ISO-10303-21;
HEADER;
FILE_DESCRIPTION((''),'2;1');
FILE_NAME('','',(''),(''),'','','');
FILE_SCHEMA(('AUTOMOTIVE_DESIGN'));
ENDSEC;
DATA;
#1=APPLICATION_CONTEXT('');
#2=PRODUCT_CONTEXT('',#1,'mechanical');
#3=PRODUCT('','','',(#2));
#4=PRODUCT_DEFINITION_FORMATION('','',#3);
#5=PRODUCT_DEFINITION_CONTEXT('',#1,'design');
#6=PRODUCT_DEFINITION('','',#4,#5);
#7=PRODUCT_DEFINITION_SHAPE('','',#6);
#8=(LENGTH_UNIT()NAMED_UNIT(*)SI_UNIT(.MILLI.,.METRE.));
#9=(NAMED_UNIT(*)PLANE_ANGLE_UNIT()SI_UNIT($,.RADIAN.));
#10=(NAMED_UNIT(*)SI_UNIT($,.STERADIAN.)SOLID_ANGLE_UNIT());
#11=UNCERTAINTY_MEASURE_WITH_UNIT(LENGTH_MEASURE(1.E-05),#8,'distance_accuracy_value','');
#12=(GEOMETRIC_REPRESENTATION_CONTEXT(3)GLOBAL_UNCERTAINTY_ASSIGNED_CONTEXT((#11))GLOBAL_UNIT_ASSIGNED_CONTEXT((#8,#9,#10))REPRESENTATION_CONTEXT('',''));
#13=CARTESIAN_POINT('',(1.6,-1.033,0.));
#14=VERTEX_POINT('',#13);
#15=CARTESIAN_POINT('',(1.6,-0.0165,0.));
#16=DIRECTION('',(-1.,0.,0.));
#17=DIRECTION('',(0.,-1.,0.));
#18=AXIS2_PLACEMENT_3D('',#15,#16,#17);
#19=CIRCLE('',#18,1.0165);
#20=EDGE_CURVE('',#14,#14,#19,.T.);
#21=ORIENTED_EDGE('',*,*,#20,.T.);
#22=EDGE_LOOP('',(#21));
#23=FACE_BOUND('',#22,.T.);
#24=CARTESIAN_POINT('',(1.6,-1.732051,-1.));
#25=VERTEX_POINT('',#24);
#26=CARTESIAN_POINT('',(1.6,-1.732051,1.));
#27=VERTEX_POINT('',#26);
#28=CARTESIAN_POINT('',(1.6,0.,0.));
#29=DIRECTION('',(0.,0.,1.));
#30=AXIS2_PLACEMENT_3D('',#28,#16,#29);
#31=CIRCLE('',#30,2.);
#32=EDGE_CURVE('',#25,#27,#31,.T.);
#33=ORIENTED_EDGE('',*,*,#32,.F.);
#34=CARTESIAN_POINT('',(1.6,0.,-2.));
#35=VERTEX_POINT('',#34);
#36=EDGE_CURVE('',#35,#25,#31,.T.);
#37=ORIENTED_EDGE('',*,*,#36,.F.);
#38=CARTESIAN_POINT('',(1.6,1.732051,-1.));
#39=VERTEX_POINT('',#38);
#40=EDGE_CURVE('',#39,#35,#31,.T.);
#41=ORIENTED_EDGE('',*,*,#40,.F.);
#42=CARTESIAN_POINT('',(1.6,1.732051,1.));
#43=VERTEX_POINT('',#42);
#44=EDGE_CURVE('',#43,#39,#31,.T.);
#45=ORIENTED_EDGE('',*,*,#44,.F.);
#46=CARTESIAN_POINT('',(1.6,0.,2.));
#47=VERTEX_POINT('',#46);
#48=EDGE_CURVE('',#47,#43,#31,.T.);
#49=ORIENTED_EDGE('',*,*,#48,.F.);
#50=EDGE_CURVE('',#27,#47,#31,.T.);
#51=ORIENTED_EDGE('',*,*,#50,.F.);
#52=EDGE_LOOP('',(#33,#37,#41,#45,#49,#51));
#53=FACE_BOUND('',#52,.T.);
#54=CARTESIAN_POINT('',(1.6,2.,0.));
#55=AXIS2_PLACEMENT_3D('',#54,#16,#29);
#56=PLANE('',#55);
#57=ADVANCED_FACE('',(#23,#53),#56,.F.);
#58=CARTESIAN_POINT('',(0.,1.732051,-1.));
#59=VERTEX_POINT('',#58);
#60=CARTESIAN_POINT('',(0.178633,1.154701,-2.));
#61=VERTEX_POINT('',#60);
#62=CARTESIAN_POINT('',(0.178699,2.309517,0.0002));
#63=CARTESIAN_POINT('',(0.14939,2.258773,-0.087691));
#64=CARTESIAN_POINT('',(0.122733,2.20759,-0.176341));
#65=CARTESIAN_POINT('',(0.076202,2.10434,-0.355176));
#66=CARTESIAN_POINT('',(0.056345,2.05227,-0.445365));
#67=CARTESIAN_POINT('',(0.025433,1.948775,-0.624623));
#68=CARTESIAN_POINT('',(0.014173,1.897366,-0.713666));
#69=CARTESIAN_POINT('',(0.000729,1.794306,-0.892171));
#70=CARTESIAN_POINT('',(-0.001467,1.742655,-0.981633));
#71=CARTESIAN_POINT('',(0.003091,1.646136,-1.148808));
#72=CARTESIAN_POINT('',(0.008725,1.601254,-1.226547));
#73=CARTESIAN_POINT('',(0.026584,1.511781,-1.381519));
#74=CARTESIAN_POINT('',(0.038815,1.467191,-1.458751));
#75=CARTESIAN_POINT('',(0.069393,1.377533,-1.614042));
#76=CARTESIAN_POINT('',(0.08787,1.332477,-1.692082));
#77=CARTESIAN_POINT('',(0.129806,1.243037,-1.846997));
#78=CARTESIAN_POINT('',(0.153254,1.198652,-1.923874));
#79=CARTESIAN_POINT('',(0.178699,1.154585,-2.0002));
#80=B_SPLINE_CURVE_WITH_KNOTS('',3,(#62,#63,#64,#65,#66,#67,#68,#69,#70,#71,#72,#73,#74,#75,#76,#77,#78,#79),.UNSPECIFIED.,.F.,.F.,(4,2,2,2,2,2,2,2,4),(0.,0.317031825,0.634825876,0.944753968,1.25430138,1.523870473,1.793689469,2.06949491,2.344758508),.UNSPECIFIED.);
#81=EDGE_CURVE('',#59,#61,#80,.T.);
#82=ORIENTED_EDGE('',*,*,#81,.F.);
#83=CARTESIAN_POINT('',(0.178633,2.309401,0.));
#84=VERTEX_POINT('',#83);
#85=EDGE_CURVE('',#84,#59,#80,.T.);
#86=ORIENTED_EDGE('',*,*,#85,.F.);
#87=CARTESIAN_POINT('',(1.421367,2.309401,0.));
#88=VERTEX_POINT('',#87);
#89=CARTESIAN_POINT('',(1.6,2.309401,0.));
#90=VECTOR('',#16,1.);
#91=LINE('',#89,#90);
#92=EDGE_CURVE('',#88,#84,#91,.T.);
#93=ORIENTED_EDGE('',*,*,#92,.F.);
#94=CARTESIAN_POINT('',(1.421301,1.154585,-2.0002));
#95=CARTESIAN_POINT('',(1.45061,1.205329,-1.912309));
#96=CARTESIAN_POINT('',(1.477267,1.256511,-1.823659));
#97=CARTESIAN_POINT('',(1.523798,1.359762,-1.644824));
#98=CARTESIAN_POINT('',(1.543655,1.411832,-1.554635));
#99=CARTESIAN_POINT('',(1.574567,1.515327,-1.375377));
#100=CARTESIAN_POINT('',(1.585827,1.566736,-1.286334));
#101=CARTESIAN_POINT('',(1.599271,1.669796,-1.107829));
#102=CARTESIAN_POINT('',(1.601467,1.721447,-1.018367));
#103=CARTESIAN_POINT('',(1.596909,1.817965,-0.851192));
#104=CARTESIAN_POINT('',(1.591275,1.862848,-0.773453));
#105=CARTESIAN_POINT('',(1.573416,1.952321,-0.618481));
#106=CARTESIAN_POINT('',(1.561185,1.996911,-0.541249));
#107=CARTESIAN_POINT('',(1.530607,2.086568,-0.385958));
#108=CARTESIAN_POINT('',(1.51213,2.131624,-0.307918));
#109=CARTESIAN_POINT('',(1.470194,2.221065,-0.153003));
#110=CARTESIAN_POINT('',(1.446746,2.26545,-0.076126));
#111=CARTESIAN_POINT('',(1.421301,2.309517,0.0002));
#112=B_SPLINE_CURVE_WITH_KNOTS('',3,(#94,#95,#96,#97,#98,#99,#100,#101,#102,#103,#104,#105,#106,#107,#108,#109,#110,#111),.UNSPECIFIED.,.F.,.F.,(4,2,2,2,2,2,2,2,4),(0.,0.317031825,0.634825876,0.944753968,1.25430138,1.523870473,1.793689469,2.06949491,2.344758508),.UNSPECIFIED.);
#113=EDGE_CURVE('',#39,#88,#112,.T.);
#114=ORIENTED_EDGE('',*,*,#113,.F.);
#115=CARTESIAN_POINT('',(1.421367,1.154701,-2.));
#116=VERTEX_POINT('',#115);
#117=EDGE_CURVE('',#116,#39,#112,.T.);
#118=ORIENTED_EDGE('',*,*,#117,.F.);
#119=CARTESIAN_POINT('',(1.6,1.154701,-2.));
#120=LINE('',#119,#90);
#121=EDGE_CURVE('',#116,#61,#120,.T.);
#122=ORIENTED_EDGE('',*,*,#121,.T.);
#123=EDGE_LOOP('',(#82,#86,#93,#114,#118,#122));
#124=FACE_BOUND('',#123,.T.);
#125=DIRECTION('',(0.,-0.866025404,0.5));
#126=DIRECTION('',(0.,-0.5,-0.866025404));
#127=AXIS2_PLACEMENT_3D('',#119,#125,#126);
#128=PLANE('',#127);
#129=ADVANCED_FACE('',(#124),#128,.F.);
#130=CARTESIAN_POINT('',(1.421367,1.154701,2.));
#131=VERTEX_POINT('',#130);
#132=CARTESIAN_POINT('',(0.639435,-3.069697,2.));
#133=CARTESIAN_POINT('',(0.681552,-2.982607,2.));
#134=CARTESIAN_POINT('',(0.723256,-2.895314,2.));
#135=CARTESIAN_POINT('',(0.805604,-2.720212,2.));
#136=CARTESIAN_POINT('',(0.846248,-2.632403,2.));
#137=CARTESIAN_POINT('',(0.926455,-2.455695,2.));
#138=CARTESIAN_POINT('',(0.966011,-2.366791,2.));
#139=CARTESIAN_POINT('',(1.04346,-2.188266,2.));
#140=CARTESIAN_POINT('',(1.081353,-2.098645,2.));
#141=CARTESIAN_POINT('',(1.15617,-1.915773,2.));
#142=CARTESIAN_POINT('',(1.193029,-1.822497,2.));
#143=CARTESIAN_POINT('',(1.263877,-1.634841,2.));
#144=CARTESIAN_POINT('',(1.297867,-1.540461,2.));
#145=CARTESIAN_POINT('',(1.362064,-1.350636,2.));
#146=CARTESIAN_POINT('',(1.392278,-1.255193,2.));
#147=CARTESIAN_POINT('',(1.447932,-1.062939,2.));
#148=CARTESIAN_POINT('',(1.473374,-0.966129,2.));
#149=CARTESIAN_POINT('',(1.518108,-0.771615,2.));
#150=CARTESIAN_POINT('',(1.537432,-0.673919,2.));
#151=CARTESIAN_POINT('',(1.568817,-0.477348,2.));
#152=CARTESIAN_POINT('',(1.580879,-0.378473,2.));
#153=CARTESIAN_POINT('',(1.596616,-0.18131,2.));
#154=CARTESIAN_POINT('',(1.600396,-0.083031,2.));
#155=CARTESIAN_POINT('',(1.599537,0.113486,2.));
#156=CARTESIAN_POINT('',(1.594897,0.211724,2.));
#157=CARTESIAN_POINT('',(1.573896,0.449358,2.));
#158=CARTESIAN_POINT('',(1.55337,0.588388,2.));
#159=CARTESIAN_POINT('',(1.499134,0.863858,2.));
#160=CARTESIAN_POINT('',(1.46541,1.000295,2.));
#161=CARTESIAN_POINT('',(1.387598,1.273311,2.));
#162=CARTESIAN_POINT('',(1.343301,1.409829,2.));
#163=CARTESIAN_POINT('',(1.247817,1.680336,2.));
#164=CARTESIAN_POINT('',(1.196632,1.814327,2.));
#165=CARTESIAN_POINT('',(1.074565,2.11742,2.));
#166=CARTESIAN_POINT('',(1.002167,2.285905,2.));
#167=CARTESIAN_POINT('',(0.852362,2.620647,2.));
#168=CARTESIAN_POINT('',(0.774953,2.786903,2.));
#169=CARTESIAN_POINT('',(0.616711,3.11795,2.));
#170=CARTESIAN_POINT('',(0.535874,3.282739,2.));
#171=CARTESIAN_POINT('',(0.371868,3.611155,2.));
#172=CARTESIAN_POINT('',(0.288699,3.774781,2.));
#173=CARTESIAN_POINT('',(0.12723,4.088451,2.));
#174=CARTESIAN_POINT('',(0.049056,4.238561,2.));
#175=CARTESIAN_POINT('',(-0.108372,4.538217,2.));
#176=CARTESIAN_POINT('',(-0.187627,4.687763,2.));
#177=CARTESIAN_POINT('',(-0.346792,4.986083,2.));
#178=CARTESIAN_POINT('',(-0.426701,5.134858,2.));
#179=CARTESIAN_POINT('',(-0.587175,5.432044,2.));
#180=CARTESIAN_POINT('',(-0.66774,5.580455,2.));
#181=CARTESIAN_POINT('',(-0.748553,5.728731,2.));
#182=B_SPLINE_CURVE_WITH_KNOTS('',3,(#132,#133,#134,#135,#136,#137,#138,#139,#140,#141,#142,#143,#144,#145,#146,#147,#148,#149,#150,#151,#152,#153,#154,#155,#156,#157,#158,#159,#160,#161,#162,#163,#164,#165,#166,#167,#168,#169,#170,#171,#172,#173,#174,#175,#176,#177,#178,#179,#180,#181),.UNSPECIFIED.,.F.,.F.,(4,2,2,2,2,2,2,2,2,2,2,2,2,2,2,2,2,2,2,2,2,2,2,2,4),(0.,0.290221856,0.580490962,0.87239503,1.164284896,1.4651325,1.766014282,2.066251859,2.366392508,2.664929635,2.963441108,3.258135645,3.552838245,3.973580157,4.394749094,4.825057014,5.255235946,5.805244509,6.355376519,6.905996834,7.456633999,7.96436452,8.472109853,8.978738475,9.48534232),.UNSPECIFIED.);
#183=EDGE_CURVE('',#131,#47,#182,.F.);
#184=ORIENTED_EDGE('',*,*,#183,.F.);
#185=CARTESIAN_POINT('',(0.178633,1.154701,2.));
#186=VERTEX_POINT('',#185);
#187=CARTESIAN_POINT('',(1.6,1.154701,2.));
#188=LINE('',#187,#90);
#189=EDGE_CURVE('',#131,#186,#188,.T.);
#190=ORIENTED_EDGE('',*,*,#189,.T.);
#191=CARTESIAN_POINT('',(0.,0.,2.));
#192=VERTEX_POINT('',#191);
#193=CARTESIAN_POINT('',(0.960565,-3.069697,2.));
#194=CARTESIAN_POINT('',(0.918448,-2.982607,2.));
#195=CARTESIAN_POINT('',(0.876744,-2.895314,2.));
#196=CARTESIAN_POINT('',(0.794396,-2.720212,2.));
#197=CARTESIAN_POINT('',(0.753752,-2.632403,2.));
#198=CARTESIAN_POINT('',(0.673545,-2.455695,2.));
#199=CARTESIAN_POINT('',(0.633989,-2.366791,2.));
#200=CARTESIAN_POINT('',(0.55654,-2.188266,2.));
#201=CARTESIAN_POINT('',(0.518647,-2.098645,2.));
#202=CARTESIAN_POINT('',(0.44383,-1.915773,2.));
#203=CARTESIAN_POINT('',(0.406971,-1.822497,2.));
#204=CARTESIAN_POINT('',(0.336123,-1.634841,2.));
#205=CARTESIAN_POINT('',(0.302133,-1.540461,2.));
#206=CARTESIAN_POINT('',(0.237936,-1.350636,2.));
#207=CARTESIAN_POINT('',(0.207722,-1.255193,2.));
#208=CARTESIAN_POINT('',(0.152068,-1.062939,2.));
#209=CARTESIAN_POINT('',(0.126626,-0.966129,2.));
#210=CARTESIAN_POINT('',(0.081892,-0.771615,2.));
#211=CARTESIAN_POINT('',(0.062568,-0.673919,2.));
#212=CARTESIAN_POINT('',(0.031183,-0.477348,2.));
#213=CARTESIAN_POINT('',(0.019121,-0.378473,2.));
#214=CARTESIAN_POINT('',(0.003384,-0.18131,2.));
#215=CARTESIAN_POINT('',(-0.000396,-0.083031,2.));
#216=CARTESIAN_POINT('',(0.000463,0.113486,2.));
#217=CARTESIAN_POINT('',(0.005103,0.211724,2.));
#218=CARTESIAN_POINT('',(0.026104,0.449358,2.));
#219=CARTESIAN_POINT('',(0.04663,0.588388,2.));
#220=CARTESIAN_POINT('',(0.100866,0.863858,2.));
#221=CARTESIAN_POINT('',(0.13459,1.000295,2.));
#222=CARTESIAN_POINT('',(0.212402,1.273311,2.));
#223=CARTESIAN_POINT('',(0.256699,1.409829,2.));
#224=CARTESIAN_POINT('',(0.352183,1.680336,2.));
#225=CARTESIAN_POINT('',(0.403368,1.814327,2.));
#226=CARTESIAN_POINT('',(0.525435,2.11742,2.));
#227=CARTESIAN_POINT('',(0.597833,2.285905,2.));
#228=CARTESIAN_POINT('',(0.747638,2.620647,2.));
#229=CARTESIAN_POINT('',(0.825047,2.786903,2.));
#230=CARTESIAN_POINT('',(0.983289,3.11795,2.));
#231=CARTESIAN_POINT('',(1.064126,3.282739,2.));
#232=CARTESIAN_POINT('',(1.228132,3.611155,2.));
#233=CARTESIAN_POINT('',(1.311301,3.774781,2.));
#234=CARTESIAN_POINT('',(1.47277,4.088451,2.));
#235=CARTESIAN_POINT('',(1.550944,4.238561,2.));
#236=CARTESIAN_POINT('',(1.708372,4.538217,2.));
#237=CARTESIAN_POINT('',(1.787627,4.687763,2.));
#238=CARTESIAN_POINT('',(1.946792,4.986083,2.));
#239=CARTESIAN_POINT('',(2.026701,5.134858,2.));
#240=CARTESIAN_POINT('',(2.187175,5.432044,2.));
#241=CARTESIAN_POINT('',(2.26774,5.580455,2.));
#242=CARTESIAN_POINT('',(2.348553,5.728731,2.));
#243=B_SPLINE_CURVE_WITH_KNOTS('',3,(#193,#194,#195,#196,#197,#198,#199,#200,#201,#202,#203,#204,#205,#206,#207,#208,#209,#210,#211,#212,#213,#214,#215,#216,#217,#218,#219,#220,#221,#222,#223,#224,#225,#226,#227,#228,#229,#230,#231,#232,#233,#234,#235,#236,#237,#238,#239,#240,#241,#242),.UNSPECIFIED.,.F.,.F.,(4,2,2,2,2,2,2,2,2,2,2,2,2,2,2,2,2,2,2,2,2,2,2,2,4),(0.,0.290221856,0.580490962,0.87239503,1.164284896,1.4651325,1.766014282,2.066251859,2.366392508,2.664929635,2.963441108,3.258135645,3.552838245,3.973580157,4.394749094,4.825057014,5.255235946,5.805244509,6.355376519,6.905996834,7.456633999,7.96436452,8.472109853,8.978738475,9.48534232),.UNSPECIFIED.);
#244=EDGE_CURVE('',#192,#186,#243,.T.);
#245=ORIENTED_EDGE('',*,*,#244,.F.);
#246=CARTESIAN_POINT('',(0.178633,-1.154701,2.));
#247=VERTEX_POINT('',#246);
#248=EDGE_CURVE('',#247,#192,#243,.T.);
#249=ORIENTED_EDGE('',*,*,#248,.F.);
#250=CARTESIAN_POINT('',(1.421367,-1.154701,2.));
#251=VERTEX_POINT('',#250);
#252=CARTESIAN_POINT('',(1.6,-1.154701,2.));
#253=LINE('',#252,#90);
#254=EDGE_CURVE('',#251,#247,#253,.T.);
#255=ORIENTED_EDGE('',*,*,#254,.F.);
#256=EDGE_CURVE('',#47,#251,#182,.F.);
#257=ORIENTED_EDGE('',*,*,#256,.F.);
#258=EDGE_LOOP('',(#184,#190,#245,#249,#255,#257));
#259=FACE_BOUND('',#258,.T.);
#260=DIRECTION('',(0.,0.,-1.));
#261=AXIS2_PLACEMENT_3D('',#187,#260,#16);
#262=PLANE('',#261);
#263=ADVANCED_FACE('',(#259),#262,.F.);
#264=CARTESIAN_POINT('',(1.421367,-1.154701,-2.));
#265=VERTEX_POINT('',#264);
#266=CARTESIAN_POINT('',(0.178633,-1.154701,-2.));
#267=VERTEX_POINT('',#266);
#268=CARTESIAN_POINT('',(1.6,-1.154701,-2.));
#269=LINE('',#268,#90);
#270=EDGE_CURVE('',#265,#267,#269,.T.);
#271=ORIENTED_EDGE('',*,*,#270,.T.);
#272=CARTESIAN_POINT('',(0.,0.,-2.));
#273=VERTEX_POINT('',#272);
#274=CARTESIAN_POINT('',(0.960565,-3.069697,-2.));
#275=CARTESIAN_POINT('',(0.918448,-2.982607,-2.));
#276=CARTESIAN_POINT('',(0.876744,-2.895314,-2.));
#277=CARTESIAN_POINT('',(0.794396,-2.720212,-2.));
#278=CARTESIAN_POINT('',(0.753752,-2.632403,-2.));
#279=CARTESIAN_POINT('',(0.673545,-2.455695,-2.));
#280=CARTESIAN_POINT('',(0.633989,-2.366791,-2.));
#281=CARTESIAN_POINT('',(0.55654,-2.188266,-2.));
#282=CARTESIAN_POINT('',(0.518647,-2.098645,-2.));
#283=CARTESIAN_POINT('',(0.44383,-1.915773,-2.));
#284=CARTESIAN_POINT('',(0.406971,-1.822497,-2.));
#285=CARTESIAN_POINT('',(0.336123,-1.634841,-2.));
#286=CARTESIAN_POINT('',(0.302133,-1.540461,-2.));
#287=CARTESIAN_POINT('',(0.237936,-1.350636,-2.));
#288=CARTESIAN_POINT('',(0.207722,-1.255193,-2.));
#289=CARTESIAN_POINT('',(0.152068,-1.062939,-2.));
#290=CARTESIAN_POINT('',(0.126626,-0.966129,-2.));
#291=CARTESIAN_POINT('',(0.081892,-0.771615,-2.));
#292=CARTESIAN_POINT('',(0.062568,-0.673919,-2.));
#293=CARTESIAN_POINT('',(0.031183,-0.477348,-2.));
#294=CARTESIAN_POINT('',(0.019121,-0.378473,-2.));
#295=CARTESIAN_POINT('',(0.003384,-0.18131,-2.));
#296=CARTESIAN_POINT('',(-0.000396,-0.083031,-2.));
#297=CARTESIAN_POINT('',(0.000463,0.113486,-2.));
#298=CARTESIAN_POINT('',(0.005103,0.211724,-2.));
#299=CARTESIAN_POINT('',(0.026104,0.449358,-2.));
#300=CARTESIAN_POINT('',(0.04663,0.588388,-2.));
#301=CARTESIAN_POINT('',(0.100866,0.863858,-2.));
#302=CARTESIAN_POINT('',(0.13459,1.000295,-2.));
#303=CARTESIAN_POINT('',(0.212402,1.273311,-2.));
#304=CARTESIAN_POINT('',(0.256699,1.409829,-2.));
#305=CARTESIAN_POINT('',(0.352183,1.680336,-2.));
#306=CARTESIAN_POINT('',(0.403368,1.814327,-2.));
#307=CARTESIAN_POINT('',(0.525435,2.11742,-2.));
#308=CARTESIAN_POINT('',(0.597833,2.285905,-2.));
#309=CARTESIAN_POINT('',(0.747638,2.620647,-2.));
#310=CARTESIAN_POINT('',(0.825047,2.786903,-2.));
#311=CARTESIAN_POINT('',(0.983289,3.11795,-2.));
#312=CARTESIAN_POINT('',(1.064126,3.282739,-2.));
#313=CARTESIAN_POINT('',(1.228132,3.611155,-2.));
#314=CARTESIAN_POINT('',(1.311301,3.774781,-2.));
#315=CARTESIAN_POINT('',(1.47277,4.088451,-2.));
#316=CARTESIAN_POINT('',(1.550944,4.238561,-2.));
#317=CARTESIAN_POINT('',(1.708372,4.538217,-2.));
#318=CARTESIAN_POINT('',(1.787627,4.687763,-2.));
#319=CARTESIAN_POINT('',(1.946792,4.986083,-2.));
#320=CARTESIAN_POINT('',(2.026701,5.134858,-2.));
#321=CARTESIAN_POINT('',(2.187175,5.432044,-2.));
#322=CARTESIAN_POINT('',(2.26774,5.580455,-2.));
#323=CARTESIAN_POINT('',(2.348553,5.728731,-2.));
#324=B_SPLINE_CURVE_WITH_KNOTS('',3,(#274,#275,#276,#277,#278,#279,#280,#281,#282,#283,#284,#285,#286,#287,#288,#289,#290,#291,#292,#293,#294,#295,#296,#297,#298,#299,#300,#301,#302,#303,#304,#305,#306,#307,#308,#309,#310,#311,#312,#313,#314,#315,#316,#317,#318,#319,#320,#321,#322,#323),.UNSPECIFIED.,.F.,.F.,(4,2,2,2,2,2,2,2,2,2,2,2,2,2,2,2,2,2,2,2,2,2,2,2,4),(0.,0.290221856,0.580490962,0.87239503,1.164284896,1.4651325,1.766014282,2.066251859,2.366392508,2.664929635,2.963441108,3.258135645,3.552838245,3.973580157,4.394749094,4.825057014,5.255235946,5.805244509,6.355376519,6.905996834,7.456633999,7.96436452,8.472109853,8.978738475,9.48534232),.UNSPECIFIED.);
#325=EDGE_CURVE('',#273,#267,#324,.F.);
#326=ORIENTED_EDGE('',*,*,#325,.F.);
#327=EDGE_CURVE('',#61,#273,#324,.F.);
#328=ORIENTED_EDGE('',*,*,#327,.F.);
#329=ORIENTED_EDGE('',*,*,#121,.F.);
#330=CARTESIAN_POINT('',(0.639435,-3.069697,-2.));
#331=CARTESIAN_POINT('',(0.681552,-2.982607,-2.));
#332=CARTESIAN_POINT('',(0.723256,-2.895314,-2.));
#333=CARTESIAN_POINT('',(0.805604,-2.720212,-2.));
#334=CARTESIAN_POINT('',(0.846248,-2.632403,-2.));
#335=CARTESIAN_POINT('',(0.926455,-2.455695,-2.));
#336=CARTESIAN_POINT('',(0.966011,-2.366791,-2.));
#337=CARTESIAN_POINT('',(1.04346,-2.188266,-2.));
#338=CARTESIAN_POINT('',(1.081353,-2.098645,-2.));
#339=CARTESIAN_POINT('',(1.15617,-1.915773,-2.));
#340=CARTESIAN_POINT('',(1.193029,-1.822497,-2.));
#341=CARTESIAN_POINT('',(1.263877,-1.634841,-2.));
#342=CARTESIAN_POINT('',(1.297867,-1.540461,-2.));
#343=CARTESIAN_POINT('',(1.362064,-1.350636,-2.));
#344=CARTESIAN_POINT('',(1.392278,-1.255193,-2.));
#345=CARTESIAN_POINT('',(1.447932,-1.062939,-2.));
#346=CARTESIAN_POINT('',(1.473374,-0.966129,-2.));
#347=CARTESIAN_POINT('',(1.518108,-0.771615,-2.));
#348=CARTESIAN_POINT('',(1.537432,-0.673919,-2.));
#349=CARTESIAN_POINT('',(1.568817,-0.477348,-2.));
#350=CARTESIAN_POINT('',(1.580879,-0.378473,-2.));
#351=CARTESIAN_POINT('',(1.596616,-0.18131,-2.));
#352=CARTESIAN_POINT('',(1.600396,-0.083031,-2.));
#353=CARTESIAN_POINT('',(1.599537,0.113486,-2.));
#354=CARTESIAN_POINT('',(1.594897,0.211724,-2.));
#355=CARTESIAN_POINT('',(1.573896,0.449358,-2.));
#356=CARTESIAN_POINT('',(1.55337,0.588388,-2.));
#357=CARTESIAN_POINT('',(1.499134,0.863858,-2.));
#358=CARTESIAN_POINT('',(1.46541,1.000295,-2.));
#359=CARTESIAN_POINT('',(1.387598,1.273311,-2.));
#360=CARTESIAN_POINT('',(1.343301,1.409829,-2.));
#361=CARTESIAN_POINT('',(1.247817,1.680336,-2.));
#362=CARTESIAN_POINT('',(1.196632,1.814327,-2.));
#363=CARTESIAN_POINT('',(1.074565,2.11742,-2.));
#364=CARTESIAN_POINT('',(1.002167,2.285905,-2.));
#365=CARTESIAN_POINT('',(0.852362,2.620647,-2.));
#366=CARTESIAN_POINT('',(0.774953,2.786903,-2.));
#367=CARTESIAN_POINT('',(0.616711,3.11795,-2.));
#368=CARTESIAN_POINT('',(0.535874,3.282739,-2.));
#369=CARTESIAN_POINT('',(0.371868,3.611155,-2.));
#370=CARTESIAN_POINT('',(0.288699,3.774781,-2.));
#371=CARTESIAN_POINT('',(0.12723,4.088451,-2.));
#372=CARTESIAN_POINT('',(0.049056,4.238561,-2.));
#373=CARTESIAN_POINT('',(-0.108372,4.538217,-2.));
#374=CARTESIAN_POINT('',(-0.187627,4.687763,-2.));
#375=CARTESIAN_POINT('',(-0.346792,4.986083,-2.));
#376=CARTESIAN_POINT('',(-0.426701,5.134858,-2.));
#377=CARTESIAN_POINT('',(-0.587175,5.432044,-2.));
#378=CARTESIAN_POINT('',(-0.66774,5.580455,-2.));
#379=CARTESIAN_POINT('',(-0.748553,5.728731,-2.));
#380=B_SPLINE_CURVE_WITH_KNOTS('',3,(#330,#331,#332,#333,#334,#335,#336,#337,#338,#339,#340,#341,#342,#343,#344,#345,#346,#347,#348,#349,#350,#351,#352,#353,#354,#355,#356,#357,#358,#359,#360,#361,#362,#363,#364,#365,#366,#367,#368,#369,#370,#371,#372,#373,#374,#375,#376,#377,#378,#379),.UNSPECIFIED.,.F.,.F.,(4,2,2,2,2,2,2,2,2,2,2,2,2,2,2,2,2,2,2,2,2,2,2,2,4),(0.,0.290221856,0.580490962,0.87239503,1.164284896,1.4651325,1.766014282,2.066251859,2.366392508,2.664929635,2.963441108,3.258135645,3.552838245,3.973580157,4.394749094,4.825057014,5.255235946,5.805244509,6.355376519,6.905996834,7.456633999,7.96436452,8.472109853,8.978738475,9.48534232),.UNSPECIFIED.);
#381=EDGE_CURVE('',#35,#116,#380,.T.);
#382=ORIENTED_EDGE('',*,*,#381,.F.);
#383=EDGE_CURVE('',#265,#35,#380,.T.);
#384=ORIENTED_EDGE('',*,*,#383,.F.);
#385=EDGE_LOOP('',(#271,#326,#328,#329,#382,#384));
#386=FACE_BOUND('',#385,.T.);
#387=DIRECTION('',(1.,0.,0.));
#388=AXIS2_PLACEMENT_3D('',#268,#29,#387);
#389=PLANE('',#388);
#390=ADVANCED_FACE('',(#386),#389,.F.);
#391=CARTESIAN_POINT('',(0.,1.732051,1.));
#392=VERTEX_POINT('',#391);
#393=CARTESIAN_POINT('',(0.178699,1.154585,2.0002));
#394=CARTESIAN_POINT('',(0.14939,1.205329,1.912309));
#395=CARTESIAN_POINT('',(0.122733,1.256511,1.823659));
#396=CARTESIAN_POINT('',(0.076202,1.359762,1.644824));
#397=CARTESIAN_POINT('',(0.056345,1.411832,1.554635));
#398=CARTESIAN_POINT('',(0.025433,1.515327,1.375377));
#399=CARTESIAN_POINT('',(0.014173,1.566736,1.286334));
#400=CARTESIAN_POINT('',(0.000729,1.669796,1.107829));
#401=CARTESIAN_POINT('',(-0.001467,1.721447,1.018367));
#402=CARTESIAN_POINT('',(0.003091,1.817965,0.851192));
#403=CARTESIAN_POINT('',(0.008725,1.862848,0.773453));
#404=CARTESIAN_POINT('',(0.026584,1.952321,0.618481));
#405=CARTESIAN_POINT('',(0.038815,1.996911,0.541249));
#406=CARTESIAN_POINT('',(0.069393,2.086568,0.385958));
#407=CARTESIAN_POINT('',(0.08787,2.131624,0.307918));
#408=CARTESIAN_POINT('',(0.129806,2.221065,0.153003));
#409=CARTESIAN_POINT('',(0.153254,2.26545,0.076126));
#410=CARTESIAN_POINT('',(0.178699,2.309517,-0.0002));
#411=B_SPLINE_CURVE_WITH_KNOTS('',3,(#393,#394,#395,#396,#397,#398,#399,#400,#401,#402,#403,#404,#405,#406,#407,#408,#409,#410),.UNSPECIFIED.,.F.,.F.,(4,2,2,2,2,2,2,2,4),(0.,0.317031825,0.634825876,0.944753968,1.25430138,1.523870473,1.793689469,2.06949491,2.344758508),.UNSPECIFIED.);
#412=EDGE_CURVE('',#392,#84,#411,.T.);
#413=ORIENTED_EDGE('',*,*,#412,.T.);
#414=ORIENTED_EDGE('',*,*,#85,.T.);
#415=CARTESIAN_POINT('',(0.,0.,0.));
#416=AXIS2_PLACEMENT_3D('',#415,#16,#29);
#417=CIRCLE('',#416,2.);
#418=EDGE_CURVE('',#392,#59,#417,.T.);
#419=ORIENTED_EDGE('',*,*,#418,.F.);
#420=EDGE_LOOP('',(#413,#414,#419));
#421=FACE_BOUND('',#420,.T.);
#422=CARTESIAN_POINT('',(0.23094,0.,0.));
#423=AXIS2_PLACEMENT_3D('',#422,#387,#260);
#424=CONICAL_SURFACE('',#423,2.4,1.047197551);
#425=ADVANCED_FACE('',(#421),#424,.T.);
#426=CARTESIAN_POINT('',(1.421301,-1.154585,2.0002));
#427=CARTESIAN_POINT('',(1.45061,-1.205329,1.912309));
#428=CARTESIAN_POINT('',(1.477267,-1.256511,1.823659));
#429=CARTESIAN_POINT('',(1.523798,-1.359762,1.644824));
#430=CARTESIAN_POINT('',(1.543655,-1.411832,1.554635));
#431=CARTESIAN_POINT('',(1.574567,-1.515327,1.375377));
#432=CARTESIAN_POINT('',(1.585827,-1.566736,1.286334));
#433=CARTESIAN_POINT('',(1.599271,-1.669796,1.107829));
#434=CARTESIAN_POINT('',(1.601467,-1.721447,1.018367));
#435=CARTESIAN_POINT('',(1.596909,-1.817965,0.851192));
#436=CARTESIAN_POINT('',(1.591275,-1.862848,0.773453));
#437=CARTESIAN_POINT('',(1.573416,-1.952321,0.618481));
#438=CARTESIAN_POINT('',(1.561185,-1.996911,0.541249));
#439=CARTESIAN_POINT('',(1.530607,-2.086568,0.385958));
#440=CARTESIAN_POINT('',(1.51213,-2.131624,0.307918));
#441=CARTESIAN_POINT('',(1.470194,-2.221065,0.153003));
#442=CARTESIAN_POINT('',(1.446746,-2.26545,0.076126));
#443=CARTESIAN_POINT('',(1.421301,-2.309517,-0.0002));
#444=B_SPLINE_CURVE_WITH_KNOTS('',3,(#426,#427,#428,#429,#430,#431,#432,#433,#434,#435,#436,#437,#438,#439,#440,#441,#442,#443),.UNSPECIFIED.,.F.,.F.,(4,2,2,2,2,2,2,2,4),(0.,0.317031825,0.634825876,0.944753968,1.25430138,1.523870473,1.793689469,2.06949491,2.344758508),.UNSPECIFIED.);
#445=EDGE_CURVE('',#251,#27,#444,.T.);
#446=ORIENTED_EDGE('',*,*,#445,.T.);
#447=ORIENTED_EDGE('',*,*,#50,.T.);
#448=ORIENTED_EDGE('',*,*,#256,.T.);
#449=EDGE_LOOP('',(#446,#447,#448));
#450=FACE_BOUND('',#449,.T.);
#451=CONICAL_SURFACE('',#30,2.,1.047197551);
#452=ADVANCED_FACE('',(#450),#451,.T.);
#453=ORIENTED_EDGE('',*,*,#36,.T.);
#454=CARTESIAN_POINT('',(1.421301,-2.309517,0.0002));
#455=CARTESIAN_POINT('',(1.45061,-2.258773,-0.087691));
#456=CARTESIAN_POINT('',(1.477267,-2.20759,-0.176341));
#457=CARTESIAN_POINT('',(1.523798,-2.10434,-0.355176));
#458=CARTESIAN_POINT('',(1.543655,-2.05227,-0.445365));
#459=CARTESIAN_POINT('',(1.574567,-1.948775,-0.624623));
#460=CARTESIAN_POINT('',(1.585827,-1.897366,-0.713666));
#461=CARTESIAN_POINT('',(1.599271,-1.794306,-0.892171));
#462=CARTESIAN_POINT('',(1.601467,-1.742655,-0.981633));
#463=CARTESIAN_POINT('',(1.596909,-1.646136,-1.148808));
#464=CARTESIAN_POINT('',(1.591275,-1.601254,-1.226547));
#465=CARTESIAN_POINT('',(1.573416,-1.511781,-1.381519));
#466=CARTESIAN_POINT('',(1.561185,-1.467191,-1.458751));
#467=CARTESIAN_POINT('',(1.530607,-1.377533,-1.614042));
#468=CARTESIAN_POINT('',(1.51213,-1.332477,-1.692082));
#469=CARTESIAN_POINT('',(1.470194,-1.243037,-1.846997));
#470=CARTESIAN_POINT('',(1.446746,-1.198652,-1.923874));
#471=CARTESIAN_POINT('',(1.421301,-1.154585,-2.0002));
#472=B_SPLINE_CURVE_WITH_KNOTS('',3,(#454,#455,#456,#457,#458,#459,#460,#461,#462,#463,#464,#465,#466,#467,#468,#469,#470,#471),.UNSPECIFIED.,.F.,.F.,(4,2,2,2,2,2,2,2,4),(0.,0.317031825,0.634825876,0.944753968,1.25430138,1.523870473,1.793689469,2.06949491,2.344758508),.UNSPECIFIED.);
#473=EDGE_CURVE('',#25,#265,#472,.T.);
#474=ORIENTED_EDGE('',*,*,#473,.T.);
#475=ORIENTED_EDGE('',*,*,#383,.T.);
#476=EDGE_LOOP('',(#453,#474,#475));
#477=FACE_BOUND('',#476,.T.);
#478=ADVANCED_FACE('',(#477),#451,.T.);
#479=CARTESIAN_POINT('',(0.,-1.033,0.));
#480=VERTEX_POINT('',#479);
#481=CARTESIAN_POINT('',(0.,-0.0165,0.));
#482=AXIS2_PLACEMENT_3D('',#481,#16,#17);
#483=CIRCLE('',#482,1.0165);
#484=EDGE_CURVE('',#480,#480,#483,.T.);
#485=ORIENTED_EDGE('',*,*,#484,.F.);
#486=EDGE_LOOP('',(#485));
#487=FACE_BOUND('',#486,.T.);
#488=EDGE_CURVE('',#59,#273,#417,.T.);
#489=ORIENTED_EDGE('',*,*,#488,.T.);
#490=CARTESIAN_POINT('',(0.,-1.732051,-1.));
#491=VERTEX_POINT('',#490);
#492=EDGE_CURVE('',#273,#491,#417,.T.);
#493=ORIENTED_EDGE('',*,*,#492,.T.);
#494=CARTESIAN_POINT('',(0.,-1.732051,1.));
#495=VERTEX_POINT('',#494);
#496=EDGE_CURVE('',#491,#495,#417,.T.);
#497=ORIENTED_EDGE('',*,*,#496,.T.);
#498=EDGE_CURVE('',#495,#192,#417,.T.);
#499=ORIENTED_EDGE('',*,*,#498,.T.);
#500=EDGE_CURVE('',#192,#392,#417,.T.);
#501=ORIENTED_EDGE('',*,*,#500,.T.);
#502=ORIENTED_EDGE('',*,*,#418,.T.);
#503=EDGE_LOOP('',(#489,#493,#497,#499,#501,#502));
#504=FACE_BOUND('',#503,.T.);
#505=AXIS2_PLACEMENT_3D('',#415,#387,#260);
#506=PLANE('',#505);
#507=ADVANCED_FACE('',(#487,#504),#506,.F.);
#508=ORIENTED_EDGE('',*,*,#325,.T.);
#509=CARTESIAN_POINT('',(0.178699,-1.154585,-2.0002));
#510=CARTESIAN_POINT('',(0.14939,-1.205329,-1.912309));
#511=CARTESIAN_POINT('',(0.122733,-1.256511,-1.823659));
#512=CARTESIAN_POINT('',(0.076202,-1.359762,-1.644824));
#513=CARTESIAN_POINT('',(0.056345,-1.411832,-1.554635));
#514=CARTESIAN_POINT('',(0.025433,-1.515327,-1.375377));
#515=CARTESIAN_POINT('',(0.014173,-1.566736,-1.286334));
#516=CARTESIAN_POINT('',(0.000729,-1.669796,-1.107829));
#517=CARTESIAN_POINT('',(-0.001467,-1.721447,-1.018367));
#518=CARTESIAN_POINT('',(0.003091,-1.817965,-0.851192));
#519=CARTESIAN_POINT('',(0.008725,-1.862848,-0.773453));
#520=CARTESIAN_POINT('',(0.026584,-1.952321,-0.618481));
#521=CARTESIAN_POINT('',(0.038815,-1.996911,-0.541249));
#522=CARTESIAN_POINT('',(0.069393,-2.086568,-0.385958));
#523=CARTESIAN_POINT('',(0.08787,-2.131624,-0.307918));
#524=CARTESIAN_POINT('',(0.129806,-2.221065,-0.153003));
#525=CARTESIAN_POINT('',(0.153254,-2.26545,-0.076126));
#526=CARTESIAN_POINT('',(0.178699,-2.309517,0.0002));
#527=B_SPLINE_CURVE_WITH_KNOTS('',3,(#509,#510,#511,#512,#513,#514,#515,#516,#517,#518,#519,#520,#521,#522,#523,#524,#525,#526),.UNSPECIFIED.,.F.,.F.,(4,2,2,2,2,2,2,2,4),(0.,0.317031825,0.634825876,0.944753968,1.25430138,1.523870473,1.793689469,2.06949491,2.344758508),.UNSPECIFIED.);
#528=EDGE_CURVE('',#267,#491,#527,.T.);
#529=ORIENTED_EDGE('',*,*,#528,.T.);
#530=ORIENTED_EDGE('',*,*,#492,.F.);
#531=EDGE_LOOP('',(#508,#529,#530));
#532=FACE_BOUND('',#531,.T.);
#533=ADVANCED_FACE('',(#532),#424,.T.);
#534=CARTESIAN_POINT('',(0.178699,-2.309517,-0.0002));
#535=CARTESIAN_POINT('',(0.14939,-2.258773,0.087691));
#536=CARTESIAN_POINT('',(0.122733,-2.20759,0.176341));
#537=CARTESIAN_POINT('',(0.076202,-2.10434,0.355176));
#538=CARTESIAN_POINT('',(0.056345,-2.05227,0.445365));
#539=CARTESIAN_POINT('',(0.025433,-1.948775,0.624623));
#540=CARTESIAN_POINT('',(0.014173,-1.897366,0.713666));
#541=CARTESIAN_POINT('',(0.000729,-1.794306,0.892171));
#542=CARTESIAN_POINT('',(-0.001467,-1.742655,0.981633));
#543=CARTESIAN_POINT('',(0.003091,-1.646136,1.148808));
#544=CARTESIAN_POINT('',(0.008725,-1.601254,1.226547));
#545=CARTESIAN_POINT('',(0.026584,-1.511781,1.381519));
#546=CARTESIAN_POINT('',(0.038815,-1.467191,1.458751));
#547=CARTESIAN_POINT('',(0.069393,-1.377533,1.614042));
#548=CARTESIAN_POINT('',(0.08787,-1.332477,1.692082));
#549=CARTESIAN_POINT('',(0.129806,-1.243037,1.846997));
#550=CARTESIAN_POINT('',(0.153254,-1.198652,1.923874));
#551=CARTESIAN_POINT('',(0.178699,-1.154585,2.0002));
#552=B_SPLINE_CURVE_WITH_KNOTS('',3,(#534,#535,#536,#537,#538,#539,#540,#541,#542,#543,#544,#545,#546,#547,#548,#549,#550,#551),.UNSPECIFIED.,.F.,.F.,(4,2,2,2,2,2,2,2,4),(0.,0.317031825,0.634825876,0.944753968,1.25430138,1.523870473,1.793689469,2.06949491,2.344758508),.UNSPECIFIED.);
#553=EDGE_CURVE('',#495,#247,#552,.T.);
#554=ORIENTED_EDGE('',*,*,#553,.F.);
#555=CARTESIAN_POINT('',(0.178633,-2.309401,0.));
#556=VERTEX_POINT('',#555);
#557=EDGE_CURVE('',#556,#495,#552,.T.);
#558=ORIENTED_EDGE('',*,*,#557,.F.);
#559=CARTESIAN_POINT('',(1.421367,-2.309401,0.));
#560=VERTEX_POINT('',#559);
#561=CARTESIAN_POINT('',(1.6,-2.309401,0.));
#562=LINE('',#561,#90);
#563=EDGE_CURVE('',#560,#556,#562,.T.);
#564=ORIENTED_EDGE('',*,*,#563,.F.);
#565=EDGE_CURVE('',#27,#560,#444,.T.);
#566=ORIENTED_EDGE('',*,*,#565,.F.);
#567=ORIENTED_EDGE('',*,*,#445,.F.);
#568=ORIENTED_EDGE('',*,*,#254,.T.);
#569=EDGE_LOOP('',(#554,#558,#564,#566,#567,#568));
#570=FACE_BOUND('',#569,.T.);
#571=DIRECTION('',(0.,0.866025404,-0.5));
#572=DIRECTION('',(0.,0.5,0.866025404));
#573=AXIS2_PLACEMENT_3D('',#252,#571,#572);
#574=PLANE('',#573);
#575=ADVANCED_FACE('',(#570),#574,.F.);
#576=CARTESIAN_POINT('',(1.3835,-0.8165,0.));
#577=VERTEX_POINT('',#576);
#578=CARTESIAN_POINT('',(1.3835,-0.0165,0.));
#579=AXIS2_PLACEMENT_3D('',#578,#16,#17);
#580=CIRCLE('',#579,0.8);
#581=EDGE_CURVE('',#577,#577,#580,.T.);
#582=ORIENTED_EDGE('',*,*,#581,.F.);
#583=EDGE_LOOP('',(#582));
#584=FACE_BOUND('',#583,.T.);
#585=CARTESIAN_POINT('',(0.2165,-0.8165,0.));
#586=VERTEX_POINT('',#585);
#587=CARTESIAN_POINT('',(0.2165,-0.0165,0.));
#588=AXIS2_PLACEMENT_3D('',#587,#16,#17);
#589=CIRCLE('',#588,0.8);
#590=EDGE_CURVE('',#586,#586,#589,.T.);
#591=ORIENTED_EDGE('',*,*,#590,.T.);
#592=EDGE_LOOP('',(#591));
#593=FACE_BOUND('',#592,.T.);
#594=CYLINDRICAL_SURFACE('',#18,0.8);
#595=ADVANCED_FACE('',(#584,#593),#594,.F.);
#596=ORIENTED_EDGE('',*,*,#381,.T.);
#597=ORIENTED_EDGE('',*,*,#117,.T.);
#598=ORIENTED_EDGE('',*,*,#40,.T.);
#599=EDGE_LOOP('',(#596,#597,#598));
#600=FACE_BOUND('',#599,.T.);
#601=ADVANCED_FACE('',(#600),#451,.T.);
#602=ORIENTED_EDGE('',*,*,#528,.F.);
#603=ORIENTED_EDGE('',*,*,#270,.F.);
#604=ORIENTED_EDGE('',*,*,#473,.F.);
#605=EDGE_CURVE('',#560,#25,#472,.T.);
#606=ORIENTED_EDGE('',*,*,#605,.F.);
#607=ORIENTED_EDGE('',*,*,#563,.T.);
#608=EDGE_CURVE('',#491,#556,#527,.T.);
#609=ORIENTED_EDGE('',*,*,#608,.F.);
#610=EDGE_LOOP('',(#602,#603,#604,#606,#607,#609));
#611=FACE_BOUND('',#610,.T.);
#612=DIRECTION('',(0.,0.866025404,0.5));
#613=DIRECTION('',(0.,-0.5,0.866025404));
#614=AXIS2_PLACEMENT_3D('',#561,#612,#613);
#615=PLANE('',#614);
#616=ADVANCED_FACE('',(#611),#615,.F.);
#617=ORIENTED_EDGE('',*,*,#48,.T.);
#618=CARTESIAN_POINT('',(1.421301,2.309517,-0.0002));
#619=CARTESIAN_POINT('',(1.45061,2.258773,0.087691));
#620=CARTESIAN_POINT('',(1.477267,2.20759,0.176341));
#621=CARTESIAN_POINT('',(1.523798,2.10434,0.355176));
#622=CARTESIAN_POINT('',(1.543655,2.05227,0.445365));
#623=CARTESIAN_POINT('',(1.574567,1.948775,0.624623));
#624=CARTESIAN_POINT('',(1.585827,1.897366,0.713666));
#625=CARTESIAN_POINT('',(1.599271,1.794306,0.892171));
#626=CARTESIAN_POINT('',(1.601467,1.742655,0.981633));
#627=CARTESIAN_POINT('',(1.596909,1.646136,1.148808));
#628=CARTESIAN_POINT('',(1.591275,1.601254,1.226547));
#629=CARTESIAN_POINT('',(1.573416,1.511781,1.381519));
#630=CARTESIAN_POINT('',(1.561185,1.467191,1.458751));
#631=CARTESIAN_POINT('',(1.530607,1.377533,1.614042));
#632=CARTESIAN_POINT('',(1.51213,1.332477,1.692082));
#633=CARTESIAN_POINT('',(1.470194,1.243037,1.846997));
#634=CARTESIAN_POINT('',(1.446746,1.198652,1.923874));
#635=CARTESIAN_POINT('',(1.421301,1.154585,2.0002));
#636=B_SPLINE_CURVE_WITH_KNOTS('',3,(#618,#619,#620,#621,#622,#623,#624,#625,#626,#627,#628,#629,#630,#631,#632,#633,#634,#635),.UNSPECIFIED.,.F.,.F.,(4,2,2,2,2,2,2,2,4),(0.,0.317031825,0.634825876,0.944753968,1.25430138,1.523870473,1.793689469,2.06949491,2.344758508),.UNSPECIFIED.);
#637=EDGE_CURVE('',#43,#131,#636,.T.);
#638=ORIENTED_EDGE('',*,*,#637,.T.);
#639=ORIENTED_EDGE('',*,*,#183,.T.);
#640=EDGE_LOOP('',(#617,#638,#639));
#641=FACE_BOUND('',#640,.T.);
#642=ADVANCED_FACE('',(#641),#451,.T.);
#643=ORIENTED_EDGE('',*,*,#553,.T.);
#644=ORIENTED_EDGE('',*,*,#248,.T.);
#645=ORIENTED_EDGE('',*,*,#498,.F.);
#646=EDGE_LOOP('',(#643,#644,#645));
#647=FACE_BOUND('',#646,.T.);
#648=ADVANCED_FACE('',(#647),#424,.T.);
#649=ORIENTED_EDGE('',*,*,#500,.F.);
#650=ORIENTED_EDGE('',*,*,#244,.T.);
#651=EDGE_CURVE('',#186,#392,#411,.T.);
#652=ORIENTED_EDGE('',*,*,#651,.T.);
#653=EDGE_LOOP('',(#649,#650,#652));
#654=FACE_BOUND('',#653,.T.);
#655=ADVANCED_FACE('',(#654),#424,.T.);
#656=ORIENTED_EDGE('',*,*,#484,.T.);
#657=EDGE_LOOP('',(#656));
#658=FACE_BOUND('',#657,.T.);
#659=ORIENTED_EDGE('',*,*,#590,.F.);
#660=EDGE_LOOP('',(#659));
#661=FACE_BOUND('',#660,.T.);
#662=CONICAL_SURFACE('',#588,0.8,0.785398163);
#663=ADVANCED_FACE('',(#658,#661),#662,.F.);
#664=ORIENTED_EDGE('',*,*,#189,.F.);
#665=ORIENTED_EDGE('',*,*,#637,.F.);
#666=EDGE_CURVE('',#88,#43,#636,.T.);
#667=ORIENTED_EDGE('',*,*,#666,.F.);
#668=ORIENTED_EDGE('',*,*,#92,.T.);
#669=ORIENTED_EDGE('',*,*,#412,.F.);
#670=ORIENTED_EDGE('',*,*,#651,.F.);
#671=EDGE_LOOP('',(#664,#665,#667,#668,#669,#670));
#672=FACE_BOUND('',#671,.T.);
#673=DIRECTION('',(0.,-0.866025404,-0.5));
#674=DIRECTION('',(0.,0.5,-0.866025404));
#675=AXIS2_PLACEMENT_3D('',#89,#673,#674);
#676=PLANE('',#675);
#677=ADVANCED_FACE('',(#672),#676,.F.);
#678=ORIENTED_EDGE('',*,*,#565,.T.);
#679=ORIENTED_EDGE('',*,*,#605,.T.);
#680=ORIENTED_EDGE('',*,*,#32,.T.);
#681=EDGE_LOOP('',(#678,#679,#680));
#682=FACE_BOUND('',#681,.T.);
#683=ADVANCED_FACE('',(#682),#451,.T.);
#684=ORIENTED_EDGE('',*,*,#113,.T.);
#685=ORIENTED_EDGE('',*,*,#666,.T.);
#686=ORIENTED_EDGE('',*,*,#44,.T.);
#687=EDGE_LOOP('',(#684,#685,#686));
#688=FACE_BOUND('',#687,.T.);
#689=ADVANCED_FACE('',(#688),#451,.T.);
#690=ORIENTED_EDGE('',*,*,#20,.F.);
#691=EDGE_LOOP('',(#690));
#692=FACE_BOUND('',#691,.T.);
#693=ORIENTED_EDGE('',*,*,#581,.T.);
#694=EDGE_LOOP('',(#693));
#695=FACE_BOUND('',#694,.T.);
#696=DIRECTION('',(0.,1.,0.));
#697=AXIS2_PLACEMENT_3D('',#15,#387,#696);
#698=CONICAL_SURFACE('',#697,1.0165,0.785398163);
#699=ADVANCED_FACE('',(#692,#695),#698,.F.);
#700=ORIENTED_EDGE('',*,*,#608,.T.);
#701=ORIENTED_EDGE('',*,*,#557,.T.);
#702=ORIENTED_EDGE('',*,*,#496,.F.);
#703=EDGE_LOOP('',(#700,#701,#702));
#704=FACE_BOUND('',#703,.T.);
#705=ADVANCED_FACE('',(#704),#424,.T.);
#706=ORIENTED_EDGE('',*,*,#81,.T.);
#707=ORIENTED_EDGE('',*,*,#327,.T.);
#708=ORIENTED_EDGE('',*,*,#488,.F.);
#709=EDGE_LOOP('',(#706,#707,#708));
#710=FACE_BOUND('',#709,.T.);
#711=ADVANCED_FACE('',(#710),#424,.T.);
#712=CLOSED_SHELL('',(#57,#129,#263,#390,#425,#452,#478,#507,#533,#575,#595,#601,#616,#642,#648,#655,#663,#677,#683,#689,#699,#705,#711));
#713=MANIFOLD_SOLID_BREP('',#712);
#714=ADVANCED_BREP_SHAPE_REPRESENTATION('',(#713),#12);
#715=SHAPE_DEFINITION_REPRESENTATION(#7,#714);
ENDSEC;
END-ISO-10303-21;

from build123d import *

# Parameters (mm, degrees)
SKETCH2_W          = 6
SKETCH2_H          = 6
CUT_EXTRUDE1_DEPTH = 1.6


with BuildPart() as part:
    # Sketch1 → Revolve1 (revolve)
    with BuildSketch(Plane.XY):
        Polygon((0, 0), (0, 2), (0.230940108, 2.4), (1.369059892, 2.4), (1.6, 2), (1.6, 0), align=None)
    revolve(axis=Axis((1.6, 0, 0), (-1, 0, 0)))

    # Sketch2 → Cut-Extrude1 (cut)
    with BuildSketch(Plane(origin=(0, 0, 0), x_dir=(0, 0, -1), z_dir=(1, 0, 0))):
        Rectangle(SKETCH2_W, SKETCH2_H)
        Polygon((-2, -1.154700538), (0, -2.309401077), (2, -1.154700538), (2, 1.154700538), (0, 2.309401077), (-2, 1.154700538), align=None, mode=Mode.SUBTRACT)
    extrude(amount=CUT_EXTRUDE1_DEPTH, mode=Mode.SUBTRACT)

    # Sketch3 → Cut-Revolve1 (revolve, cut)
    with BuildSketch(Plane.XY):
        Polygon((0, -0.0165), (0, 1), (0.2165, 0.7835), (1.3835, 0.7835), (1.6, 1), (1.6, -0.0165), align=None)
    revolve(axis=Axis((1.6, -0.0165, 0), (-1, 0, 0)), mode=Mode.SUBTRACT)


solid = part.part
